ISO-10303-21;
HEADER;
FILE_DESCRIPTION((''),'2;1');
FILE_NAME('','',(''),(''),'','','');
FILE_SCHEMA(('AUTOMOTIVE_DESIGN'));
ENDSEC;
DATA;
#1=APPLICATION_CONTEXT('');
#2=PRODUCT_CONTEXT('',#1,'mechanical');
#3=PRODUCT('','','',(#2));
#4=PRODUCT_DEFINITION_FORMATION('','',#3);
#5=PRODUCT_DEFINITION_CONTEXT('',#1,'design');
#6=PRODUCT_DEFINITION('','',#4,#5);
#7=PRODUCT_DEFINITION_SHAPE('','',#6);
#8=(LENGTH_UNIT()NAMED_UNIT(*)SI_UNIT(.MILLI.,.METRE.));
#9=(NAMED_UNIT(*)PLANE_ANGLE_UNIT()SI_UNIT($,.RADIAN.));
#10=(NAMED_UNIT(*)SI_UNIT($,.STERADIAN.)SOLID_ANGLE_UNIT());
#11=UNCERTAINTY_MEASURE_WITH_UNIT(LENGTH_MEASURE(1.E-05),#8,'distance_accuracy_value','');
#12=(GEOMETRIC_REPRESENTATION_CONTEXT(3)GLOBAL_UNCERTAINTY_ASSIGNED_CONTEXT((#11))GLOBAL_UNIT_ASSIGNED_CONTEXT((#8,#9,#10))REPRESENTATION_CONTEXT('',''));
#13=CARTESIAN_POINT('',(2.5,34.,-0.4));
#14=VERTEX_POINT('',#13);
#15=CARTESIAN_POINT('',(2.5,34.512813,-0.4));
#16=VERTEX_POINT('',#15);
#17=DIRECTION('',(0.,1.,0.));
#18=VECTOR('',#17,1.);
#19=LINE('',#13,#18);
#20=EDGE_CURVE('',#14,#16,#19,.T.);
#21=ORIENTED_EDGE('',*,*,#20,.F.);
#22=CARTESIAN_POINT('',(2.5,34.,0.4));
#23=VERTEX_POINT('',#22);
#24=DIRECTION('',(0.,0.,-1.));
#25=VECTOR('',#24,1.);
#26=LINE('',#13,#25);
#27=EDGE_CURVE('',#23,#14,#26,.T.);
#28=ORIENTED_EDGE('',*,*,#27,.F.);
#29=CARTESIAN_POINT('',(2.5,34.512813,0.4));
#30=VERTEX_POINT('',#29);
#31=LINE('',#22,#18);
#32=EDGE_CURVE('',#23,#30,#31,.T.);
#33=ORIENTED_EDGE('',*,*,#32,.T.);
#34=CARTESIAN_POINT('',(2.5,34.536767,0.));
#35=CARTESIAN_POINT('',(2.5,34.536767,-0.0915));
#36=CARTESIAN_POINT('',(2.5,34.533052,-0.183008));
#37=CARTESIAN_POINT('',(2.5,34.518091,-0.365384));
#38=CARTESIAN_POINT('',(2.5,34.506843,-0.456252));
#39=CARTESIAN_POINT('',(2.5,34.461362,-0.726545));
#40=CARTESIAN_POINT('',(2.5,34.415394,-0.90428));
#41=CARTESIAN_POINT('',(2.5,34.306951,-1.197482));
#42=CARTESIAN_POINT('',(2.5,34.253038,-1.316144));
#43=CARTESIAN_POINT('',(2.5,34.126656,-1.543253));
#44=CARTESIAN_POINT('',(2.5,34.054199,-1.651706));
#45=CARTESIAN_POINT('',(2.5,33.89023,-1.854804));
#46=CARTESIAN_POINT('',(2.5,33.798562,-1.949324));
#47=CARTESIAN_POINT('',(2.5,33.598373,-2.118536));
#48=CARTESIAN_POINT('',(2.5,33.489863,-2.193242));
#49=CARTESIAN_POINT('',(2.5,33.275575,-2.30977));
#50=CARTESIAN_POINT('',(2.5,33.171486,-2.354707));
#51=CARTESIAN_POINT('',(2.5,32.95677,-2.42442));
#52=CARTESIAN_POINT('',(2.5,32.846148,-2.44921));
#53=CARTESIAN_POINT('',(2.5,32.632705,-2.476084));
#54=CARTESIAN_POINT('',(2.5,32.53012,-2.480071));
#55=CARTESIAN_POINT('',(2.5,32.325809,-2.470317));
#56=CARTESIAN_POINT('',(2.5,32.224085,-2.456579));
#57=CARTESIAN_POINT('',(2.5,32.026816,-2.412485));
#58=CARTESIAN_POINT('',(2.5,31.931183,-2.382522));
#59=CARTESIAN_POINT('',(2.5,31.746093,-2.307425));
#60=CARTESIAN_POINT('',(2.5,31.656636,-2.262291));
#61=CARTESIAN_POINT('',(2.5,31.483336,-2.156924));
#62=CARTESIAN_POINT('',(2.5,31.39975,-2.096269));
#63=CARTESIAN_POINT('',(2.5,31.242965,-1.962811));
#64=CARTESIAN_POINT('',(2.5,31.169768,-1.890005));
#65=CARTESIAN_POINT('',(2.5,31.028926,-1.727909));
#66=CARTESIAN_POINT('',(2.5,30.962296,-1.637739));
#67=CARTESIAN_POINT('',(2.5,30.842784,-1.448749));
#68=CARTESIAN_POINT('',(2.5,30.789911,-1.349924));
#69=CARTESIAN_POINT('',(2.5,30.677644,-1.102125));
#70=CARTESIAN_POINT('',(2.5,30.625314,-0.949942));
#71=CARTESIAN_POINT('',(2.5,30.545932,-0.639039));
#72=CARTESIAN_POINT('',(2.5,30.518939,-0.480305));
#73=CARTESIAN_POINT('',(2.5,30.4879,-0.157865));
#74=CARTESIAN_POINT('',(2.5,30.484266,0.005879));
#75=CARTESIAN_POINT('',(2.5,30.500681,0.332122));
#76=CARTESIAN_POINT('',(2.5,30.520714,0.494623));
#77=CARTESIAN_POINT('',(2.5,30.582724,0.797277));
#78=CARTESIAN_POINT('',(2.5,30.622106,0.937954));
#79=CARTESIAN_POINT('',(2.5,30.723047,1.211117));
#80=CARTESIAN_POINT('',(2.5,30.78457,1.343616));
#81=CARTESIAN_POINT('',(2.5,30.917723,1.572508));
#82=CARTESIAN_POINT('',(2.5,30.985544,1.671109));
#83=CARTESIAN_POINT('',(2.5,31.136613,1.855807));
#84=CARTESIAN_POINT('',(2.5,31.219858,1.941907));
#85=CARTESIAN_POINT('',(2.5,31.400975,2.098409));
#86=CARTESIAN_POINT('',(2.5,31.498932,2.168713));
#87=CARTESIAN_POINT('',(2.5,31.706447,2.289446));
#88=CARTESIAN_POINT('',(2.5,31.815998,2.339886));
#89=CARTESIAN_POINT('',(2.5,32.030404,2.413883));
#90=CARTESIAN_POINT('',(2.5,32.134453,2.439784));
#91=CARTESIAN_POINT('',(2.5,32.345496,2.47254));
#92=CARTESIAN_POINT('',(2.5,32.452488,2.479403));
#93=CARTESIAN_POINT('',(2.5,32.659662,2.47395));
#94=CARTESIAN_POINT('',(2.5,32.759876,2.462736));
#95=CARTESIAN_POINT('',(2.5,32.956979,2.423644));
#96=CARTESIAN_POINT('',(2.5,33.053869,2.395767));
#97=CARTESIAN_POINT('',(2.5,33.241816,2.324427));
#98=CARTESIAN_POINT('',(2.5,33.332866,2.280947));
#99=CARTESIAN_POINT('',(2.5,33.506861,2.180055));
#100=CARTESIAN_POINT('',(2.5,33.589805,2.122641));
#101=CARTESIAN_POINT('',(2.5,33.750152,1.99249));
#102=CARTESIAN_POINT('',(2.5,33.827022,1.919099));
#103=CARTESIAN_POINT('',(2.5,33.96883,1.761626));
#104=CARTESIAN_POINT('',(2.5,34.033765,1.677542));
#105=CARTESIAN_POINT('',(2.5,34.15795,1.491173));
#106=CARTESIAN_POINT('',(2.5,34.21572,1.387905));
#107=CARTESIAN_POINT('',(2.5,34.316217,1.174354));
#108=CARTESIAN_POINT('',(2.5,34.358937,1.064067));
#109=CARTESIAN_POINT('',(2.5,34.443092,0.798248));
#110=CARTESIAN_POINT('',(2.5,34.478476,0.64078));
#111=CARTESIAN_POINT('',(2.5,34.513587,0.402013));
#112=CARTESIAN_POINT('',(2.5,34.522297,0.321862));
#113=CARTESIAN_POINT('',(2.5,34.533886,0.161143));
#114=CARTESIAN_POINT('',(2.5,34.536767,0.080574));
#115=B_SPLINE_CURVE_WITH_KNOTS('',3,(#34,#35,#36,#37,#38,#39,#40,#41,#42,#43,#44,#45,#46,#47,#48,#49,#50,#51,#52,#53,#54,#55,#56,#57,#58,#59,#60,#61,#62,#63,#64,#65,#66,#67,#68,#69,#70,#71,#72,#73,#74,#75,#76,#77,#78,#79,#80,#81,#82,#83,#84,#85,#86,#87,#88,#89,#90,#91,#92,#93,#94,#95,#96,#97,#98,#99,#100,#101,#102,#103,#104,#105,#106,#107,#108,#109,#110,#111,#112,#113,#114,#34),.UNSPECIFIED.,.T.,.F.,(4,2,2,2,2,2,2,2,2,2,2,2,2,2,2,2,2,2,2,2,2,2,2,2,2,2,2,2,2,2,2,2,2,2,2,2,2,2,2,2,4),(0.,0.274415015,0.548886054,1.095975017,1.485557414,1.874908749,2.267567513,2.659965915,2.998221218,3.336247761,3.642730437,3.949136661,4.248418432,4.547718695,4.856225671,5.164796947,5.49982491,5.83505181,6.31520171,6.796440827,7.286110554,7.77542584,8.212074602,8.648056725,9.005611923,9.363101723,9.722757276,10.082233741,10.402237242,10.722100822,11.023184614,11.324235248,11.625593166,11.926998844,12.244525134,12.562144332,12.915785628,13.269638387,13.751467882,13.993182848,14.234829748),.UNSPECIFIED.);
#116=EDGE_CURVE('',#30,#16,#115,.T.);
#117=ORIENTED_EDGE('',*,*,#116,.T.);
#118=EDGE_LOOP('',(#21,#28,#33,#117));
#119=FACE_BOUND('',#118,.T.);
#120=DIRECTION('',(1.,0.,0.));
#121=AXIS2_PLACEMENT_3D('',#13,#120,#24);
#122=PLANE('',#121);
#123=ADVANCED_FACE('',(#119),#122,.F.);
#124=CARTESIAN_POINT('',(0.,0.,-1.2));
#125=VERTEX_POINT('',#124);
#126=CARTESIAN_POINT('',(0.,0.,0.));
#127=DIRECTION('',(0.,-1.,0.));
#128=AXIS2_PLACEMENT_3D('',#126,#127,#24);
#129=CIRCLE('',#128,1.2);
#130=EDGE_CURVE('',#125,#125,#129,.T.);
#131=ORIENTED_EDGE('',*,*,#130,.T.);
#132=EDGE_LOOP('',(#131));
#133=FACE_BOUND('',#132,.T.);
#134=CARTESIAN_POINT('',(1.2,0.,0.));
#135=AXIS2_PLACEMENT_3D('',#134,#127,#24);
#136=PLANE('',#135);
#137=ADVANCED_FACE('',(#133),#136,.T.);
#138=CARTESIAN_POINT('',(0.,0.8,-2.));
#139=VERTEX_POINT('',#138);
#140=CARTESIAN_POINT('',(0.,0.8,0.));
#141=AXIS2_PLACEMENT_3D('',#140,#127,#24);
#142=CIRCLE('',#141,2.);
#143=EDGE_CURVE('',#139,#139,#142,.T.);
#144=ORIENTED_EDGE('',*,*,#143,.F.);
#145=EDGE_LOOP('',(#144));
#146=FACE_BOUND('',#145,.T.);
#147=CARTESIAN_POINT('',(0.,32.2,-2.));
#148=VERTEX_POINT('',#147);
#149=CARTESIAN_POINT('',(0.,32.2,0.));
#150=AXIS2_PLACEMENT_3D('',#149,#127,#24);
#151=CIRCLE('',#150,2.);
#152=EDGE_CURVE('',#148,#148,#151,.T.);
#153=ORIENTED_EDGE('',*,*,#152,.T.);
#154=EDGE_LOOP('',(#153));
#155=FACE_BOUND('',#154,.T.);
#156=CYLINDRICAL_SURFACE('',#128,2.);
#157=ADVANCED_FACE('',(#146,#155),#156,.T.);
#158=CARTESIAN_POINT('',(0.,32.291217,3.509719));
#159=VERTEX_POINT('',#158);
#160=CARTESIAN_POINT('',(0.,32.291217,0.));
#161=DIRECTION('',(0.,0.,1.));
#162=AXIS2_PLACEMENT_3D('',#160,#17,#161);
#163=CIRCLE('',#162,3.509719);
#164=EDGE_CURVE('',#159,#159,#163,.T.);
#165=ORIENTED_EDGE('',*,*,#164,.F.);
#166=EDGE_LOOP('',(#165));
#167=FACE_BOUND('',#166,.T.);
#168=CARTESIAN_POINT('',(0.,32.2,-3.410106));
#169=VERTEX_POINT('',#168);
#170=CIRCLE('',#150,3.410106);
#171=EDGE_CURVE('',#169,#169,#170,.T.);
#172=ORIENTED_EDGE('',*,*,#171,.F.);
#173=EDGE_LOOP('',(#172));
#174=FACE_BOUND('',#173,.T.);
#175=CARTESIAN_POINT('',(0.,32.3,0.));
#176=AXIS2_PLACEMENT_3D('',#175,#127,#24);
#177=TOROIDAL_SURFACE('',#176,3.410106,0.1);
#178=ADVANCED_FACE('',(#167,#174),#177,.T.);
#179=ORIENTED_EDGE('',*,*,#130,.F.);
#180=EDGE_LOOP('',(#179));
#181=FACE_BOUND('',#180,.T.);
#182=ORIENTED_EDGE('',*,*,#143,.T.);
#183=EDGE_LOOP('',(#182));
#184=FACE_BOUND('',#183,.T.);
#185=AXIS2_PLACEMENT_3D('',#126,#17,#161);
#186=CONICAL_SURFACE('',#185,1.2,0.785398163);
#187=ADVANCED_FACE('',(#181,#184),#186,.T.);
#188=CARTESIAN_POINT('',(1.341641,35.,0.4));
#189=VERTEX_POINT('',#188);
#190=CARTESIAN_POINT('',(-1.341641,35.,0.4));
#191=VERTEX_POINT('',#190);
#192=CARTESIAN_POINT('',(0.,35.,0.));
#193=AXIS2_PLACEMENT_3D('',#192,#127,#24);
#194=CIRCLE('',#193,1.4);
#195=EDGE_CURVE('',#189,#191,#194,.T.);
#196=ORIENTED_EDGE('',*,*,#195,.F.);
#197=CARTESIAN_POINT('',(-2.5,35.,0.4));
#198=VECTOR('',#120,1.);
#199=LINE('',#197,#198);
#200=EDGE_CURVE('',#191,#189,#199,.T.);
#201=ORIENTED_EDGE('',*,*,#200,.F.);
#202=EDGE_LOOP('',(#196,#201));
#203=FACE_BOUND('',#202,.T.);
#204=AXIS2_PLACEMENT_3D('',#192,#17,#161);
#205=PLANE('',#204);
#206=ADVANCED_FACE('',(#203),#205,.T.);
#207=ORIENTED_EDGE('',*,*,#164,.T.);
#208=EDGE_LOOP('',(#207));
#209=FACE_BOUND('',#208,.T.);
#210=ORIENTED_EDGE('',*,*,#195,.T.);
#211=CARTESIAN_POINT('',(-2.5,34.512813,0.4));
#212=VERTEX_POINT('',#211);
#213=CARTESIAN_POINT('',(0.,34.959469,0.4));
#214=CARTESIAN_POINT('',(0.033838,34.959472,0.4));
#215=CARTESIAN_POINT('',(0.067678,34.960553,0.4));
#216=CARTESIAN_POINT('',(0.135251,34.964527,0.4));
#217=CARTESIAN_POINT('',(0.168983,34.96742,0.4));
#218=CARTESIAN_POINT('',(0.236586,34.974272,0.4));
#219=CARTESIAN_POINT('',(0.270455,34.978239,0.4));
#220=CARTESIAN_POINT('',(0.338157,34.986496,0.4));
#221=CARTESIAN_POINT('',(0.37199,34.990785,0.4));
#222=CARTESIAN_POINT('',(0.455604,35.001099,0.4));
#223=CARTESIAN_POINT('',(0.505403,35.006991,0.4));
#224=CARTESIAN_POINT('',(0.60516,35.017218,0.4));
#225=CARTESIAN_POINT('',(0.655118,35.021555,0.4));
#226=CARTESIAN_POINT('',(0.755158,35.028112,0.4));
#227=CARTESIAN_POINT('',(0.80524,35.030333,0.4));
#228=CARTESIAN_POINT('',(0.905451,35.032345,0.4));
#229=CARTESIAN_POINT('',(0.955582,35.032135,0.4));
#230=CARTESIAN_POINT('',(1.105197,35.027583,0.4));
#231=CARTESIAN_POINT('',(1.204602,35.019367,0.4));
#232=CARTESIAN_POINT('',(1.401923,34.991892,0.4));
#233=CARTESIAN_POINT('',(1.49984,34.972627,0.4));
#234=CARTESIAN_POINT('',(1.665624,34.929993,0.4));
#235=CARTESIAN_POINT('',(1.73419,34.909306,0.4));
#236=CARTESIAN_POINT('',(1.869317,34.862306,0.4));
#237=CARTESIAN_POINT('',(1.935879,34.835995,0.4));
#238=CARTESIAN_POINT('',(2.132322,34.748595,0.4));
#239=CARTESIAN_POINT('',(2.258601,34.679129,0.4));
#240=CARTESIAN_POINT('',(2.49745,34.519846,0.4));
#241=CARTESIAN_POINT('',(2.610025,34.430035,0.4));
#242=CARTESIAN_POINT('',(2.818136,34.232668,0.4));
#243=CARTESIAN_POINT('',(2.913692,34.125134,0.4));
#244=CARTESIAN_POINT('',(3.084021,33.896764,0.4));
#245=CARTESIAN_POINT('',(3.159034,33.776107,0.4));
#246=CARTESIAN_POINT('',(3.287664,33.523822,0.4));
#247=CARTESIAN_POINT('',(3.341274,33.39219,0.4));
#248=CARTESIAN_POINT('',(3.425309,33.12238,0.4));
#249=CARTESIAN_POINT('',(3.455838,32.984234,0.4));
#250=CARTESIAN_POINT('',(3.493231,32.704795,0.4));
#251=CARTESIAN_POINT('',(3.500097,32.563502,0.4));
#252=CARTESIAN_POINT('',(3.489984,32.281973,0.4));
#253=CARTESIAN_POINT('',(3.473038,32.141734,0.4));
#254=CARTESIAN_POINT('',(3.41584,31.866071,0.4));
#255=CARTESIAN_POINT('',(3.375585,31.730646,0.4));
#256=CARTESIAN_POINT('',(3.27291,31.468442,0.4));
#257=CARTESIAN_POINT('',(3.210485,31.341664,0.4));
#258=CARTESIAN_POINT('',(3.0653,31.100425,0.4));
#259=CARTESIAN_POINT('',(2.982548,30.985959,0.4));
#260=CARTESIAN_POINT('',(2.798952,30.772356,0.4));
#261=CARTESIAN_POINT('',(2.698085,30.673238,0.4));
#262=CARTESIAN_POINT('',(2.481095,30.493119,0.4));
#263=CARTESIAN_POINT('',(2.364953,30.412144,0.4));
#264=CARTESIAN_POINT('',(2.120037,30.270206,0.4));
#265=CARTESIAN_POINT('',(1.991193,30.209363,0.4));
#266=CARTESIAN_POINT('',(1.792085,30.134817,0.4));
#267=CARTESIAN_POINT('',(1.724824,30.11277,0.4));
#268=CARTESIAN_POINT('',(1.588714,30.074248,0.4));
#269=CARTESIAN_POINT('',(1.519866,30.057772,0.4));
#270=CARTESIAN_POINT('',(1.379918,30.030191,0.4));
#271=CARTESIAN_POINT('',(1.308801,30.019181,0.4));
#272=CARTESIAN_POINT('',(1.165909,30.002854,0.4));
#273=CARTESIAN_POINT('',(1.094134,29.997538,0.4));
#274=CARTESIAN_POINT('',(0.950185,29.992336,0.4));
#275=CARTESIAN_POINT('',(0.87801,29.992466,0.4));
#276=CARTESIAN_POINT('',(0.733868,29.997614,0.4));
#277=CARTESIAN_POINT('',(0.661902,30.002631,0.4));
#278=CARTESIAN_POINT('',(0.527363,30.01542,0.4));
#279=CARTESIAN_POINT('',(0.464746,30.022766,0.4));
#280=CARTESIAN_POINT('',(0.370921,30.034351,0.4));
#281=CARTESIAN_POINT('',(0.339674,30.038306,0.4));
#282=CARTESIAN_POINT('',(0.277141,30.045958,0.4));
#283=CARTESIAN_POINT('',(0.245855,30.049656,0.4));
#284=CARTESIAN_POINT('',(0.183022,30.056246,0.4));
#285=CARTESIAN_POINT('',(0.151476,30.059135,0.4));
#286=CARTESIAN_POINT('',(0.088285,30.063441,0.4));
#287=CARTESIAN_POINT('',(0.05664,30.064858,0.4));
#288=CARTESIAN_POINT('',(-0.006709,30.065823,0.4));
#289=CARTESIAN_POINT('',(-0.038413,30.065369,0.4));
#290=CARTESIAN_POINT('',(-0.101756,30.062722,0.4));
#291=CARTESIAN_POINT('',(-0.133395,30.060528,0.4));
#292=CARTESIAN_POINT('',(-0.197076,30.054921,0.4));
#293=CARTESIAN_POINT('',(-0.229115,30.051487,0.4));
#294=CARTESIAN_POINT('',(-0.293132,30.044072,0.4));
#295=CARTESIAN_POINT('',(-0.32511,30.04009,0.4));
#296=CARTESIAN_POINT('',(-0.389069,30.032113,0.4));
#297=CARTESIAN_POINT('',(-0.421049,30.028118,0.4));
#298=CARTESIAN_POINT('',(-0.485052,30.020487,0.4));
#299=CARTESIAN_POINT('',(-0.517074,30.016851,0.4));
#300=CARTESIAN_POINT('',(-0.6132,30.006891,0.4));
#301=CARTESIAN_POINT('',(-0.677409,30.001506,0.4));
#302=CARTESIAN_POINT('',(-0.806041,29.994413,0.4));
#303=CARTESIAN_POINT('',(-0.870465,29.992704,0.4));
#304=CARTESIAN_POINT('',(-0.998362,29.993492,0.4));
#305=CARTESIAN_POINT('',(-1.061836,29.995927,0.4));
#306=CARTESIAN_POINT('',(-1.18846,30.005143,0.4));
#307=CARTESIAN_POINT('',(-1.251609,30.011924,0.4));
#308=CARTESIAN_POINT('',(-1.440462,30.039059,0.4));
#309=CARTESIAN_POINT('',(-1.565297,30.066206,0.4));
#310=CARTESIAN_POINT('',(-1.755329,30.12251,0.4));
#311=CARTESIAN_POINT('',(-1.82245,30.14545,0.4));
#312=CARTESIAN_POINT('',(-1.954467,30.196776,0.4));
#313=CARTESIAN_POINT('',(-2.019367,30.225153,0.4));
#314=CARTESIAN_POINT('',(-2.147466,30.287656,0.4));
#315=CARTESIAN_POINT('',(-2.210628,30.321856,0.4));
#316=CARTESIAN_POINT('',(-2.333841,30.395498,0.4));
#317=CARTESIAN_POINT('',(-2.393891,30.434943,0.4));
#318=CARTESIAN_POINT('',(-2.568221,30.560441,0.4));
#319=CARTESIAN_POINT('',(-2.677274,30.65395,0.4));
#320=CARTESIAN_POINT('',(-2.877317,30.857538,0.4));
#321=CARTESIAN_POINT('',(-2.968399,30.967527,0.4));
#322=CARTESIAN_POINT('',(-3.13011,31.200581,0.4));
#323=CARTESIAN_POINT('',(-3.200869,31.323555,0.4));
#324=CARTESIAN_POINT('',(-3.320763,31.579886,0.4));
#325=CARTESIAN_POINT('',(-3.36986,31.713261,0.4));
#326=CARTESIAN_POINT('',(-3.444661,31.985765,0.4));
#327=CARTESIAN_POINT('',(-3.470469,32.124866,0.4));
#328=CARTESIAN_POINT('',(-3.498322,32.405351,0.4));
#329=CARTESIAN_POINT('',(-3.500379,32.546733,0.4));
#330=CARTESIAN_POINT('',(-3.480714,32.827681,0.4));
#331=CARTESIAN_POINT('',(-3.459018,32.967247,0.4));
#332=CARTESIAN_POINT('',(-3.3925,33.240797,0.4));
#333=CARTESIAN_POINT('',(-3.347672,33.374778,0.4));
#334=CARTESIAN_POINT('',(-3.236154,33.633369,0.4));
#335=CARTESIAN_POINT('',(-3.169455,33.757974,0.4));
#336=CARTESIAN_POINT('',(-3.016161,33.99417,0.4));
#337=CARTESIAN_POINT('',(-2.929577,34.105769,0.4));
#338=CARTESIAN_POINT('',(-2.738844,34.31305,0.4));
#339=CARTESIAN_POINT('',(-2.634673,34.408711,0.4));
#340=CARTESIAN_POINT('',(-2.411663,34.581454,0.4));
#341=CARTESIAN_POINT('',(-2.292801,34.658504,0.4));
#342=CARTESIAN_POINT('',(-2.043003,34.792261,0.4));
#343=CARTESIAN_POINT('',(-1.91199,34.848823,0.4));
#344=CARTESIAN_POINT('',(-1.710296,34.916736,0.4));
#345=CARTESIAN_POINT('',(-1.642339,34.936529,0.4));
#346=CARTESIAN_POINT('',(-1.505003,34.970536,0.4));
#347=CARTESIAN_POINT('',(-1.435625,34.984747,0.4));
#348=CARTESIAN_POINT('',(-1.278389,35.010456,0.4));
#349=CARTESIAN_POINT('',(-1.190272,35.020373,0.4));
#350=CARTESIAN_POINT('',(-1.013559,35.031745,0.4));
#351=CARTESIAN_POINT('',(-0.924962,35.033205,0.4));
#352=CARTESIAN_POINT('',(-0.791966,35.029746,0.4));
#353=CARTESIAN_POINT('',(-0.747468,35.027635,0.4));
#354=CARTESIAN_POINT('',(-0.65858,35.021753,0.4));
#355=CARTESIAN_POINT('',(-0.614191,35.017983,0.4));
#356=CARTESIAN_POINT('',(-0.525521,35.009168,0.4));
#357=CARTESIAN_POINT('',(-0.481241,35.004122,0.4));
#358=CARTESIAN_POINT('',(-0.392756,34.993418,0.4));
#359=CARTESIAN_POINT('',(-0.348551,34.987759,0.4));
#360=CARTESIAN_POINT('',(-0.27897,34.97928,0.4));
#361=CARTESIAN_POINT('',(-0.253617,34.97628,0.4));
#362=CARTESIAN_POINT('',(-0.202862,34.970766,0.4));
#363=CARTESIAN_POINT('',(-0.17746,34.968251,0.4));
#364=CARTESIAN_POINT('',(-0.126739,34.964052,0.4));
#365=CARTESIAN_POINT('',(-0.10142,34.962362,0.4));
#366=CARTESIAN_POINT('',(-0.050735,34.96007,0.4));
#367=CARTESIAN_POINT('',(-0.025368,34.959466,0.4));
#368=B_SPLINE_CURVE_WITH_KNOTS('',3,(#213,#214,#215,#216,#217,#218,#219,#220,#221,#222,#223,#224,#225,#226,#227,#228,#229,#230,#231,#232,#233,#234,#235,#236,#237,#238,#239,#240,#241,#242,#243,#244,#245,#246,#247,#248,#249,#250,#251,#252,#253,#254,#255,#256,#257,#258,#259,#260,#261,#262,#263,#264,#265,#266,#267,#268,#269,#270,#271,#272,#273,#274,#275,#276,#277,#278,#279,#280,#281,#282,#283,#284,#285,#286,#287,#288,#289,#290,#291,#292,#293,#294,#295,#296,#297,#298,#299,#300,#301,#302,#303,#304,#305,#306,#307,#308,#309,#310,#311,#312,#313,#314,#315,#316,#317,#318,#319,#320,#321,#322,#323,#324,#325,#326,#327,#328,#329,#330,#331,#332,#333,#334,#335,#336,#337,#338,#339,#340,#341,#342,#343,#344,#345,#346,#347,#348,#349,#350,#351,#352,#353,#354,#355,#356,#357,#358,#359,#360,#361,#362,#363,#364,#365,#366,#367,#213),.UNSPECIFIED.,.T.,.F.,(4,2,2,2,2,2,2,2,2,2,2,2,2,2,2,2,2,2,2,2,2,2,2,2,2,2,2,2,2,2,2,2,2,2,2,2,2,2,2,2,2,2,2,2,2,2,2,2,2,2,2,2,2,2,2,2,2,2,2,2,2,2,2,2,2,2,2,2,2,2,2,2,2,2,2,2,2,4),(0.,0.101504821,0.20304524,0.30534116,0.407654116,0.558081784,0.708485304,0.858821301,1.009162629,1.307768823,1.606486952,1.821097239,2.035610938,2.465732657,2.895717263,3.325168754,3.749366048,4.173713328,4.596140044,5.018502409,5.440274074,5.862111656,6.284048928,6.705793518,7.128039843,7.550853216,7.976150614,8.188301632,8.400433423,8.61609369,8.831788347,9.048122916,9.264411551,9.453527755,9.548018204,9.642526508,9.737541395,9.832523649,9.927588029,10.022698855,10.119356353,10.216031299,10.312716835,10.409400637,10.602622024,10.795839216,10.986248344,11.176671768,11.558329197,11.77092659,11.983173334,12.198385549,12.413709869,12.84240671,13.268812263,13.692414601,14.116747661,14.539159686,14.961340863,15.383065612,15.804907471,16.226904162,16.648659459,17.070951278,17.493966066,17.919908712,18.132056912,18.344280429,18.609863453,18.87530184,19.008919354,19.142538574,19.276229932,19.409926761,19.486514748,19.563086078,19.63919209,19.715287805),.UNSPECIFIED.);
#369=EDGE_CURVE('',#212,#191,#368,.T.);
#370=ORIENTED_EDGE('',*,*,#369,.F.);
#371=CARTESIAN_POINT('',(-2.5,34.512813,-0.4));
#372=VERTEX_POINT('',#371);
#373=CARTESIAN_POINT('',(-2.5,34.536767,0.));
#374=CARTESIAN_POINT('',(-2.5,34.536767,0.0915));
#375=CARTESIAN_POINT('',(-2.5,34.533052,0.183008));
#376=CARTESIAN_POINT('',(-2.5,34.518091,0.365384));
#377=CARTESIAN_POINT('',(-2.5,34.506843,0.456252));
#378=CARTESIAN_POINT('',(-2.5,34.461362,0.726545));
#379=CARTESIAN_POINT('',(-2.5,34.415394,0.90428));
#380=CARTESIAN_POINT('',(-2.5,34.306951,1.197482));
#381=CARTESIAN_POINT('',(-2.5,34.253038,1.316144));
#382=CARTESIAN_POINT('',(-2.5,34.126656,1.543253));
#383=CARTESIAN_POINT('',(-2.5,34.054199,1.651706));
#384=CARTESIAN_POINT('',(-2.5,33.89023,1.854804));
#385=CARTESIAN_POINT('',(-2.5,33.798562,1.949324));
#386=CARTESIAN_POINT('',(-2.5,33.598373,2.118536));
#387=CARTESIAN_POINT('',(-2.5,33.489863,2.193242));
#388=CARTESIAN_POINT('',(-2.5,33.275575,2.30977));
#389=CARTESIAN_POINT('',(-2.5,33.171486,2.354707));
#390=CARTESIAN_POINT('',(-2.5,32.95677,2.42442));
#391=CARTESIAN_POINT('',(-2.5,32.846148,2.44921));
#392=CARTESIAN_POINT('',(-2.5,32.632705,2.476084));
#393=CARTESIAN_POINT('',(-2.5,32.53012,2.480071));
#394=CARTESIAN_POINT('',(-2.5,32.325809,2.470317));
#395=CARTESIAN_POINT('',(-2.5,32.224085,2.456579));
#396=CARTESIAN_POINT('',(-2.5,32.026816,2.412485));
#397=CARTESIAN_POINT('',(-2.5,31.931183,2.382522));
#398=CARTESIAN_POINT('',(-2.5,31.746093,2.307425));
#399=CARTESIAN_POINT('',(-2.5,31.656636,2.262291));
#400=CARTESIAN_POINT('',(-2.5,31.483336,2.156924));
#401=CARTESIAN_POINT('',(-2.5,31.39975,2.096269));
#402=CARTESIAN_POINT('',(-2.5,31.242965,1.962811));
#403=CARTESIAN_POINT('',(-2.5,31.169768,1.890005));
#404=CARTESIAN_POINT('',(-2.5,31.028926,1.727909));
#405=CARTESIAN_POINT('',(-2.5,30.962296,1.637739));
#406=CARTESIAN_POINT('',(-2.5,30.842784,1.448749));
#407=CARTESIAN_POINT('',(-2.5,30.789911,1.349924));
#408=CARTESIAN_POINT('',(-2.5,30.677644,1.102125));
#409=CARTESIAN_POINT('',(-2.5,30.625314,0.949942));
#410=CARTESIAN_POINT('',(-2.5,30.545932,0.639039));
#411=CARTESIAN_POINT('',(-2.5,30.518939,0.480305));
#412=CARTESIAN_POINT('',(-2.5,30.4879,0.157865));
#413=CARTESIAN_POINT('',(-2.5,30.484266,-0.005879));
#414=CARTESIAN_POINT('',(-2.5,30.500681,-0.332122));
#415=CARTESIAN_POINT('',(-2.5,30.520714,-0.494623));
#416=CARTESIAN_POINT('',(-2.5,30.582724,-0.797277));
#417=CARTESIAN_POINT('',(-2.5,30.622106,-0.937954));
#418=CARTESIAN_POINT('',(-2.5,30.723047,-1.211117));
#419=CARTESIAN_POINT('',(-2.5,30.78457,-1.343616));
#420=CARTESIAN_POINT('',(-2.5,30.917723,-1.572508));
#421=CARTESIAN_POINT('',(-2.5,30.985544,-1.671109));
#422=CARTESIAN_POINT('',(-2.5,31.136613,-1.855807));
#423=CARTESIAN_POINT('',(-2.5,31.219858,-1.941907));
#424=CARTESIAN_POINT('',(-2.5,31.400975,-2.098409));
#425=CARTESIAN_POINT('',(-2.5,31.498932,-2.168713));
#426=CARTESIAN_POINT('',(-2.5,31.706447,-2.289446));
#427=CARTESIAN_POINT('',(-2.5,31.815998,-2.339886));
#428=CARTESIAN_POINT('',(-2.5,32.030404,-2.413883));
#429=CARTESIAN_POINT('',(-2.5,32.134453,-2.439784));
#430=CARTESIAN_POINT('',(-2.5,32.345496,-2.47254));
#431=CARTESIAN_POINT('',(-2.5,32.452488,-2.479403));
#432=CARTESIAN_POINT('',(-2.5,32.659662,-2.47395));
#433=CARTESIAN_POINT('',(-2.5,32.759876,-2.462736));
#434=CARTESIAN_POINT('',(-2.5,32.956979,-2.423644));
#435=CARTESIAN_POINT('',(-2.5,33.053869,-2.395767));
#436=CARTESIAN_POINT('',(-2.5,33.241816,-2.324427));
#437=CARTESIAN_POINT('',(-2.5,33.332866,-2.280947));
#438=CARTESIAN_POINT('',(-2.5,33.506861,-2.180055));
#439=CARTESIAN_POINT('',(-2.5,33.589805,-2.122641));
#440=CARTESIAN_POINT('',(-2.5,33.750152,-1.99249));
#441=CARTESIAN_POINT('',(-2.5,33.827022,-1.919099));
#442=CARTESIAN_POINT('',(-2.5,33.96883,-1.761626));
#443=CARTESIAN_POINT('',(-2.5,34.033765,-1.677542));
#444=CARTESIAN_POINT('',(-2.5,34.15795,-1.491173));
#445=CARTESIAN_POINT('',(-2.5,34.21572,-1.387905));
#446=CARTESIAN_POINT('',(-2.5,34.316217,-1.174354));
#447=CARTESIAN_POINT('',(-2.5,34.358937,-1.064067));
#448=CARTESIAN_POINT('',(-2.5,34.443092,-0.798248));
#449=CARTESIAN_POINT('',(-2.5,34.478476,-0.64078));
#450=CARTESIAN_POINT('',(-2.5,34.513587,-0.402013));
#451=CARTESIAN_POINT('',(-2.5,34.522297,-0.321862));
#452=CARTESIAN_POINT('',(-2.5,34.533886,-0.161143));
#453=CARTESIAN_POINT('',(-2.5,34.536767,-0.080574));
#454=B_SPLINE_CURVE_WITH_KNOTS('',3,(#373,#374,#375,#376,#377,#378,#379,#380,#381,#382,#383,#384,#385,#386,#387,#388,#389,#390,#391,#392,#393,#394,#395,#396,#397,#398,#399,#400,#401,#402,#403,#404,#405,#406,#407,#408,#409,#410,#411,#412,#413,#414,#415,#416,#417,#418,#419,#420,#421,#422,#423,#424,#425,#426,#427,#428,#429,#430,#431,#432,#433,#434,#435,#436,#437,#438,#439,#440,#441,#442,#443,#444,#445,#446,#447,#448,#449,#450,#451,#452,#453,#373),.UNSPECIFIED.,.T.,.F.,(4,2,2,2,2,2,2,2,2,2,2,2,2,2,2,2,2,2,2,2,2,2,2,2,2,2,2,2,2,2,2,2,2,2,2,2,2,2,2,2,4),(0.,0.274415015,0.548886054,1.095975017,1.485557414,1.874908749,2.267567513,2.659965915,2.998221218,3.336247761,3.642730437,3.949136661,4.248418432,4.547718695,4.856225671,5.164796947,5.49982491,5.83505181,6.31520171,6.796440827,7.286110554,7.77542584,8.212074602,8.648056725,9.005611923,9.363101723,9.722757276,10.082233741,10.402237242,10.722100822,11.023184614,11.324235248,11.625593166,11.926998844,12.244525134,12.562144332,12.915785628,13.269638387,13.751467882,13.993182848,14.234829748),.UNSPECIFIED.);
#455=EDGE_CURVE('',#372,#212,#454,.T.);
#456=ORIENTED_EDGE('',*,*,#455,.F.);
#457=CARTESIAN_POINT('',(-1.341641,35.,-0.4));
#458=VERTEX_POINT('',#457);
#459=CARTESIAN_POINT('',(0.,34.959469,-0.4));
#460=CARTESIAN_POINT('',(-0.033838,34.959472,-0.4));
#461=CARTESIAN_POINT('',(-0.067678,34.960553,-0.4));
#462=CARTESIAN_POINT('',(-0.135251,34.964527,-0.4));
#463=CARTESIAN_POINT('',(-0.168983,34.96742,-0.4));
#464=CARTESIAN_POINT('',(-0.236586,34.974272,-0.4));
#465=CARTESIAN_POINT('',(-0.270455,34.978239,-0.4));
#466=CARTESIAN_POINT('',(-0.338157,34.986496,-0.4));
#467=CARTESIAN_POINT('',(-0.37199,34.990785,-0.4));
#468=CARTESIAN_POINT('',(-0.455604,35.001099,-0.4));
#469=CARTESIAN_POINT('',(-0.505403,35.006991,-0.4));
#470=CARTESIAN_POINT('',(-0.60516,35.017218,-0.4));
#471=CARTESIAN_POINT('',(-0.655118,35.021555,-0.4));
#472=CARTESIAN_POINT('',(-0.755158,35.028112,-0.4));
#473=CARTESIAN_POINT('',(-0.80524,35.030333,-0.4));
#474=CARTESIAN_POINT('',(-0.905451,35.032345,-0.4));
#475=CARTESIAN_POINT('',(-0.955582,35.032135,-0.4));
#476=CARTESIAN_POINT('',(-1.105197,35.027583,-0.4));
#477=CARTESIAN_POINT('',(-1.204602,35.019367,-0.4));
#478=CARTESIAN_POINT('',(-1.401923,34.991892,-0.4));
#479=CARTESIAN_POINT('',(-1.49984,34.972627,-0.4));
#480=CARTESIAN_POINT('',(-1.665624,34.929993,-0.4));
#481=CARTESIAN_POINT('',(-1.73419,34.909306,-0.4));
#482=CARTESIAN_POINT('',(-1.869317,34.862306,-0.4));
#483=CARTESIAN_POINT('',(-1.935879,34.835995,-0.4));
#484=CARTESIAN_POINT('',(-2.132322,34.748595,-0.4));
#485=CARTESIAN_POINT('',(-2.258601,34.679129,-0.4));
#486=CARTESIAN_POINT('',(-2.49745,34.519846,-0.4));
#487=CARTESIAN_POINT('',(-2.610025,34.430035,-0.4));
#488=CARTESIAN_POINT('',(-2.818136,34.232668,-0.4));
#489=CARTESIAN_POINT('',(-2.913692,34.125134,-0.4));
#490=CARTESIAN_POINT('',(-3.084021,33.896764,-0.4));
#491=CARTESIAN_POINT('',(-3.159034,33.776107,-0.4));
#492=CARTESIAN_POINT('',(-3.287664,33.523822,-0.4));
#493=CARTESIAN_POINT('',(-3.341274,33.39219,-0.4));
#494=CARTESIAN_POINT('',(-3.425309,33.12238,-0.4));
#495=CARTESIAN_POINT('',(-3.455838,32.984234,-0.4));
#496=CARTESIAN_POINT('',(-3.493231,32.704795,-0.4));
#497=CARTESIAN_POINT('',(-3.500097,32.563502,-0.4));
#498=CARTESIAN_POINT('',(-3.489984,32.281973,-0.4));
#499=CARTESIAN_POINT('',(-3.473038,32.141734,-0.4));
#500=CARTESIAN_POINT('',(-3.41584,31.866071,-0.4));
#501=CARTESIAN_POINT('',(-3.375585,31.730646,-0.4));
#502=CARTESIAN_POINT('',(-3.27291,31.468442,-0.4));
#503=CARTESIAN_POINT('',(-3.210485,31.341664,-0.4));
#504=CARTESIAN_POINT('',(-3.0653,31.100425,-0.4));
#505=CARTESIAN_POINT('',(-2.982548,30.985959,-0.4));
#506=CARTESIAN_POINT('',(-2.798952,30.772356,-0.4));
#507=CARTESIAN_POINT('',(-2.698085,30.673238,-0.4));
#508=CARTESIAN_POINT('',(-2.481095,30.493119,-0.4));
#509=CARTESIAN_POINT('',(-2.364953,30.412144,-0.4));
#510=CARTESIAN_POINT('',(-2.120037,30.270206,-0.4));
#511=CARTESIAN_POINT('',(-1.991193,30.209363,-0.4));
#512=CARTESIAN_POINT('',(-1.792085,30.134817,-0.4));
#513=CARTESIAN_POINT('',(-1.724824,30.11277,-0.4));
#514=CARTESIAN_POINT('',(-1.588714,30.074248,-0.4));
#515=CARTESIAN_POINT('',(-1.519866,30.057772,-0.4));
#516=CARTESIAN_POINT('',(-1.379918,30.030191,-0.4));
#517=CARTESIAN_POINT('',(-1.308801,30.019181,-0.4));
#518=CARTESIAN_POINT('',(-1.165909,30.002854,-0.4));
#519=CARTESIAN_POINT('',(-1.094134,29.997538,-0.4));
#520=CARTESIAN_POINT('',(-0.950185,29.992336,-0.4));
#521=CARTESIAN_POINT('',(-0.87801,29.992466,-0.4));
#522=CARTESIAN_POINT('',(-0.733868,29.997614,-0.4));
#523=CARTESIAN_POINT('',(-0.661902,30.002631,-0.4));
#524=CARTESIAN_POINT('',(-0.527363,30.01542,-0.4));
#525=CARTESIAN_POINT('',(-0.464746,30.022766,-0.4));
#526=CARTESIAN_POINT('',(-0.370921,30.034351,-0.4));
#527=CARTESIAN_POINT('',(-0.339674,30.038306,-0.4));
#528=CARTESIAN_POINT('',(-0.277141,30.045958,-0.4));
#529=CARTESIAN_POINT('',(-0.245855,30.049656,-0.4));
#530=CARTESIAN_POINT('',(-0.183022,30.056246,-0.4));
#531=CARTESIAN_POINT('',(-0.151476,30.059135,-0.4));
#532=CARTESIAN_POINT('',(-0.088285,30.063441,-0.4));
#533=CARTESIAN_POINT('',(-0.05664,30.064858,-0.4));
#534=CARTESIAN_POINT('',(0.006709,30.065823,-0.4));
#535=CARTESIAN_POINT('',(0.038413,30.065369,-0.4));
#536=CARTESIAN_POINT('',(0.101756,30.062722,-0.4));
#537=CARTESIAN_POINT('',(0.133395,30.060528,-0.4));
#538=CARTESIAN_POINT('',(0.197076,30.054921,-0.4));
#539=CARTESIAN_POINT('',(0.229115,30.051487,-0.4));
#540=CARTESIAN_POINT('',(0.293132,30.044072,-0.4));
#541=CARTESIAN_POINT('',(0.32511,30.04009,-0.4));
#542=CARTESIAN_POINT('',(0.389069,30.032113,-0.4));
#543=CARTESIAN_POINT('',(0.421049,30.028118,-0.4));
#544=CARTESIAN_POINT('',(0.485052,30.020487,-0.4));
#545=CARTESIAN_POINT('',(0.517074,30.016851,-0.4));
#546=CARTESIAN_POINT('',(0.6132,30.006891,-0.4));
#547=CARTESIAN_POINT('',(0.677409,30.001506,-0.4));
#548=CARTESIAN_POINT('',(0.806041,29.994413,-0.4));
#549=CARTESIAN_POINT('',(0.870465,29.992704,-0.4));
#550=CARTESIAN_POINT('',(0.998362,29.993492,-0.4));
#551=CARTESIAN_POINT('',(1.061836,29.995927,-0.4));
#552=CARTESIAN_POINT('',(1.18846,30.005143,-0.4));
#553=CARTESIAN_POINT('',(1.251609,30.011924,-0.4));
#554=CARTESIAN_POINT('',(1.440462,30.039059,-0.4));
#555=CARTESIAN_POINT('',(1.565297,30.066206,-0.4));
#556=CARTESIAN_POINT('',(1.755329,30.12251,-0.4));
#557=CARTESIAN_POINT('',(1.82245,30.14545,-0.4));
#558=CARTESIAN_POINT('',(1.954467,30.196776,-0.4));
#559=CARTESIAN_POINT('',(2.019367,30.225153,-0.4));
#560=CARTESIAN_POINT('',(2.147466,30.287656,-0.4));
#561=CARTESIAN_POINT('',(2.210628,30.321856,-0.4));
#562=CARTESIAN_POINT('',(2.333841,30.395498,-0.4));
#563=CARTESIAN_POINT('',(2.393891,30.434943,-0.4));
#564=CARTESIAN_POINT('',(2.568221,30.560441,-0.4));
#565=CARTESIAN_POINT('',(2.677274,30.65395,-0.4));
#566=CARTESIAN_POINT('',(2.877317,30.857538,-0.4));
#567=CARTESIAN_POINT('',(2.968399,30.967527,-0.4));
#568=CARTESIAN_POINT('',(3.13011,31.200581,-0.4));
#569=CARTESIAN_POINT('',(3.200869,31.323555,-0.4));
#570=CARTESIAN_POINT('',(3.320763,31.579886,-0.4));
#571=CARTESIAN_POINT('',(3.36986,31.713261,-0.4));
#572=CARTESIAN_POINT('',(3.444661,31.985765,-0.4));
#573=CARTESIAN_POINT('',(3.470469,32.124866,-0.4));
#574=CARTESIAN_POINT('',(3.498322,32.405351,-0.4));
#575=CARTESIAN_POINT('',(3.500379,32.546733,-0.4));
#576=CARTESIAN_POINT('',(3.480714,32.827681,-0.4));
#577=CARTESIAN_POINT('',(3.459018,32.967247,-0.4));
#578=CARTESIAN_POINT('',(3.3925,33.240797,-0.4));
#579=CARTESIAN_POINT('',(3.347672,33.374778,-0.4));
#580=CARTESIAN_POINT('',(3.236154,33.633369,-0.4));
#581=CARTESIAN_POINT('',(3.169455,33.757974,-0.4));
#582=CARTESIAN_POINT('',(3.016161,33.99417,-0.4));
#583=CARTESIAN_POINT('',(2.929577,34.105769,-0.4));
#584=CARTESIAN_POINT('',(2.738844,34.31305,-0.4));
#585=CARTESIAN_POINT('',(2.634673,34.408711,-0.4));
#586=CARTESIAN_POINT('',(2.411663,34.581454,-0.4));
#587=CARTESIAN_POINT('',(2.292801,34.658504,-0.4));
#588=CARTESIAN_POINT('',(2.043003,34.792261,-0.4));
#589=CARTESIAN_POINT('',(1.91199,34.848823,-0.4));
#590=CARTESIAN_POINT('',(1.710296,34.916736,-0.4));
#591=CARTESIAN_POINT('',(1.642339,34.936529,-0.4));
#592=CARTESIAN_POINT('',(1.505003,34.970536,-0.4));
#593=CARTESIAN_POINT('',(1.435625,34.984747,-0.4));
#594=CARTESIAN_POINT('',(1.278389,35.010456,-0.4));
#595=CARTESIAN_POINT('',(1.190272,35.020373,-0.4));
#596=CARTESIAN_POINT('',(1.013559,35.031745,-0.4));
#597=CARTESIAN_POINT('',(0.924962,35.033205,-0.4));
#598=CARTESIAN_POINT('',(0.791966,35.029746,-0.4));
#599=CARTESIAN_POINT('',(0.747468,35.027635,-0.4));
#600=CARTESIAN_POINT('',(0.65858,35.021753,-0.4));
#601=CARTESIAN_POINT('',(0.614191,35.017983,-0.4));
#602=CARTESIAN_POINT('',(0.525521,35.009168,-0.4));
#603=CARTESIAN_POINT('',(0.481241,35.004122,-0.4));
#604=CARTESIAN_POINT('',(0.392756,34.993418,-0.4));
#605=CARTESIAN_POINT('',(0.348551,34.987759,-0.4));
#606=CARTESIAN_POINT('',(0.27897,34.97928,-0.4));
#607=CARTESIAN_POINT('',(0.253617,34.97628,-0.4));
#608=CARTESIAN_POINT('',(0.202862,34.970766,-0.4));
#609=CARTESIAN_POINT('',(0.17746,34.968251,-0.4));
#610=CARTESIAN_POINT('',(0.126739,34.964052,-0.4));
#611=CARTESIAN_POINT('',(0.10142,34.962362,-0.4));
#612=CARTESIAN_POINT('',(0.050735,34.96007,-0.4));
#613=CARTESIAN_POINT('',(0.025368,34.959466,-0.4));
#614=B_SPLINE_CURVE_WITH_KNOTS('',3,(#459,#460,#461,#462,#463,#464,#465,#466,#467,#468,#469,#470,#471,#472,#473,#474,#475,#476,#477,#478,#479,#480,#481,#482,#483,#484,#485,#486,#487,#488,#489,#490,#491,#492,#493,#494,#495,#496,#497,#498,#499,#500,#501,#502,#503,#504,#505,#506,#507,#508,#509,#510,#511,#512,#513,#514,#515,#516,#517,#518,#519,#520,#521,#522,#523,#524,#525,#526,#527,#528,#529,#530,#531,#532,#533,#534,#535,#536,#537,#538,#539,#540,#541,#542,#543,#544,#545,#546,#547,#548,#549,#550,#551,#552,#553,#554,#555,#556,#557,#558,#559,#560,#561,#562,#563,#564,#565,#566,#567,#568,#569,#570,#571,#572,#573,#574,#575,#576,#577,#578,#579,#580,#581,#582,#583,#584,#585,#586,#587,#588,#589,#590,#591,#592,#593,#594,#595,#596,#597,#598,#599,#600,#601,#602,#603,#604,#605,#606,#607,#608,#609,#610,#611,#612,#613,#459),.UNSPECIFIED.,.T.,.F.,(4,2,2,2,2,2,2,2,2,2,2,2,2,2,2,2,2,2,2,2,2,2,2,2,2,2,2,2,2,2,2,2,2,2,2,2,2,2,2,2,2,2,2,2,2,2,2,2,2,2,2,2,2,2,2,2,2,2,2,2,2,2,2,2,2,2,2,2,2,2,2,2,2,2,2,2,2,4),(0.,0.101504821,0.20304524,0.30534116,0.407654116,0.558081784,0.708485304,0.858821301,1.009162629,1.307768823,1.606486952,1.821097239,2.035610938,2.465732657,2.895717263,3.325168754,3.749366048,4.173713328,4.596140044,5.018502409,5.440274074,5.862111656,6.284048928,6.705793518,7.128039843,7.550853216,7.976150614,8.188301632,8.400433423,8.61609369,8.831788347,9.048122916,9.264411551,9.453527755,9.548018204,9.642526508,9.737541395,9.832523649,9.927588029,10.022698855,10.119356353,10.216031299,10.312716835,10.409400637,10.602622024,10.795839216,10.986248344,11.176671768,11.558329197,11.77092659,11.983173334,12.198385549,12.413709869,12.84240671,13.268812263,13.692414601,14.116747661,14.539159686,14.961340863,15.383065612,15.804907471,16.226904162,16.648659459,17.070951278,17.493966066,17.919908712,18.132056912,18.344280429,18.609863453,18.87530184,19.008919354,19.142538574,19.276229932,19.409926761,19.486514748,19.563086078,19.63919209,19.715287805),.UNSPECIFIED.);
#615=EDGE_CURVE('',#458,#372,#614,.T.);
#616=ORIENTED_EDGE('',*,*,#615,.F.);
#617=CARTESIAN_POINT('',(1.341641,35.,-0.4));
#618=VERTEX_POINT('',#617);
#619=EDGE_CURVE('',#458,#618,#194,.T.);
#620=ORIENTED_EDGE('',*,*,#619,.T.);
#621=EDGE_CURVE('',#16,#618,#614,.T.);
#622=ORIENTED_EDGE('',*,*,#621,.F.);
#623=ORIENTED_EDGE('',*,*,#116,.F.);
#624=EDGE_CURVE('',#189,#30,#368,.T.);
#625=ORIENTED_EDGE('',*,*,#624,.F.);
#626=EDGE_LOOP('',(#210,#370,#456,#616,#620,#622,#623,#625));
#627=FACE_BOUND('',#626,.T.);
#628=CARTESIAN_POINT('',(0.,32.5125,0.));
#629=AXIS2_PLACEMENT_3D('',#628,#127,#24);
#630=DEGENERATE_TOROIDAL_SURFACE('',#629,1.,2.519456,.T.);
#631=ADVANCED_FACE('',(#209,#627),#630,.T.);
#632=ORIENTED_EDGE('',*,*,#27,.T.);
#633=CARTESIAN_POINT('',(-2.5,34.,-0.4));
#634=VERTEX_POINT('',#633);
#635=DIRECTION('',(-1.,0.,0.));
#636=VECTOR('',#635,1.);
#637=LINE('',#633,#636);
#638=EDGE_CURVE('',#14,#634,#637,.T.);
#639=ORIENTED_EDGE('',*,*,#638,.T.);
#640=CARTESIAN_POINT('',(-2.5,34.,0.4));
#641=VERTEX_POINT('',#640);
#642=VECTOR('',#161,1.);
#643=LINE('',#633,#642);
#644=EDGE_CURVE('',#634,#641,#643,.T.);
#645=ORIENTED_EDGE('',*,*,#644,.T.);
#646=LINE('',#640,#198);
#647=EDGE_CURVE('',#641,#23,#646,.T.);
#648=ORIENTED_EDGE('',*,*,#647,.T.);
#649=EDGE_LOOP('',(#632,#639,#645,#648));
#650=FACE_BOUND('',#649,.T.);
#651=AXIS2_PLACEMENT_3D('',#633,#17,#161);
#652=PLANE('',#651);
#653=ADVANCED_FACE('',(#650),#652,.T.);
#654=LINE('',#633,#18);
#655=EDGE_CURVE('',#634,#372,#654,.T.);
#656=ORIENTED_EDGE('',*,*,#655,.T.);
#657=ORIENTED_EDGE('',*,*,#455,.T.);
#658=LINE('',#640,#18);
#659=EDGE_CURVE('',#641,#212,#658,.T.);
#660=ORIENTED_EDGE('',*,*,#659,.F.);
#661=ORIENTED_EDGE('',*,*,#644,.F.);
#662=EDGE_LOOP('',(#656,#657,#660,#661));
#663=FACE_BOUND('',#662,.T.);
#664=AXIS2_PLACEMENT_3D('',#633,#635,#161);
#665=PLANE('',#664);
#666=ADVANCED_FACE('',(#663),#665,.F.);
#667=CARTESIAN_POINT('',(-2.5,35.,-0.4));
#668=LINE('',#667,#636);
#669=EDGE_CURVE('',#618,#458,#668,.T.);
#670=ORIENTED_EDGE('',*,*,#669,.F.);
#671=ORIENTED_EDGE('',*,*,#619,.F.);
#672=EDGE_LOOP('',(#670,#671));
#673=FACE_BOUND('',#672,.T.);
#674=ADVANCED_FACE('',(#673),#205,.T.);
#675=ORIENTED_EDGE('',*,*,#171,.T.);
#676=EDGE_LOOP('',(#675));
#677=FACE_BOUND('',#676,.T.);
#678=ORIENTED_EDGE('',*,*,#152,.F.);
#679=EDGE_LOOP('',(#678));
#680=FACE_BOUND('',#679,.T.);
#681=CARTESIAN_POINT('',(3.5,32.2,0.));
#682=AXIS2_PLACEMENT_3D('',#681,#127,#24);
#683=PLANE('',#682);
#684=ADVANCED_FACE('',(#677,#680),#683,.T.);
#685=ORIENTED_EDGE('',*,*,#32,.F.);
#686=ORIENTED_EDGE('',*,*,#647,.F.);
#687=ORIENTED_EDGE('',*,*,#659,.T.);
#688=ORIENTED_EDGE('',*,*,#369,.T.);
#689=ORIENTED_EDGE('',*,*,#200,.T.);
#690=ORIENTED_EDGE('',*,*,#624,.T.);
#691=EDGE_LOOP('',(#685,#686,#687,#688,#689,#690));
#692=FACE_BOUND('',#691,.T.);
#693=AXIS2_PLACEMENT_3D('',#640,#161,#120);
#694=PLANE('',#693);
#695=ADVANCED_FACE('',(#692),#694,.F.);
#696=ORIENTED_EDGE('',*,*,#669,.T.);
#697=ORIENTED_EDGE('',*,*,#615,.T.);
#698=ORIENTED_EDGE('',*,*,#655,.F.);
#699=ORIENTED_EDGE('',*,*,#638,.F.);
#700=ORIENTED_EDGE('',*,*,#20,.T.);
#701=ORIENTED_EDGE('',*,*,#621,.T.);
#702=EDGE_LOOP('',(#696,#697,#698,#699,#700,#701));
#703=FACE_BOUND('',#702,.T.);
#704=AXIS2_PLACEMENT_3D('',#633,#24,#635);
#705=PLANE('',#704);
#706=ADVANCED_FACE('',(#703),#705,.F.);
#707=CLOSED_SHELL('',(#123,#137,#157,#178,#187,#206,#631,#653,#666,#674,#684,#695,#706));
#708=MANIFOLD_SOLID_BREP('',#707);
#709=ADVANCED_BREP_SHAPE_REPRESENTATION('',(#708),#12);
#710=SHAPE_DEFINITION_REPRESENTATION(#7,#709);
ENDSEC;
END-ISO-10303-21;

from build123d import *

# Parameters (mm, degrees)
FILLET_1_R          = 0.1
SKETCH_3_W          = 5
SKETCH_3_H          = 0.8
CUT_EXTRUDE_2_DEPTH = 1


with BuildPart() as part:
    # Эскиз1 → Повернуть1 (revolve)
    with BuildSketch(Plane.XY):
        with BuildLine():
            Line((3.5, 32.2), (2, 32.2))
            Line((2, 32.2), (2, 0.8))
            Line((2, 0.8), (1.2, 0))
            Line((1.2, 0), (0, 0))
            Line((0, 0), (0, 35))
            Line((0, 35), (1.4, 35))
            ThreePointArc((1.4, 35), (3.015564437, 34.024173328), (3.5, 32.2))
        make_face()
    revolve(axis=Axis((0, 0, 0), (0, 1, 0)))

    # Скругление1
    fillet_1_edges = [part.edges().sort_by_distance(p)[0] for p in [
        (-3.5, 32.2, 0),
    ]]
    fillet(fillet_1_edges, radius=FILLET_1_R)

    # Эскиз3 → Вырез-Вытянуть2 (cut)
    with BuildSketch(Plane(origin=(0, 35, 0), x_dir=(-1, 0, 0), z_dir=(0, 1, 0))):
        Rectangle(SKETCH_3_W, SKETCH_3_H)
    extrude(amount=-CUT_EXTRUDE_2_DEPTH, mode=Mode.SUBTRACT)


solid = part.part
